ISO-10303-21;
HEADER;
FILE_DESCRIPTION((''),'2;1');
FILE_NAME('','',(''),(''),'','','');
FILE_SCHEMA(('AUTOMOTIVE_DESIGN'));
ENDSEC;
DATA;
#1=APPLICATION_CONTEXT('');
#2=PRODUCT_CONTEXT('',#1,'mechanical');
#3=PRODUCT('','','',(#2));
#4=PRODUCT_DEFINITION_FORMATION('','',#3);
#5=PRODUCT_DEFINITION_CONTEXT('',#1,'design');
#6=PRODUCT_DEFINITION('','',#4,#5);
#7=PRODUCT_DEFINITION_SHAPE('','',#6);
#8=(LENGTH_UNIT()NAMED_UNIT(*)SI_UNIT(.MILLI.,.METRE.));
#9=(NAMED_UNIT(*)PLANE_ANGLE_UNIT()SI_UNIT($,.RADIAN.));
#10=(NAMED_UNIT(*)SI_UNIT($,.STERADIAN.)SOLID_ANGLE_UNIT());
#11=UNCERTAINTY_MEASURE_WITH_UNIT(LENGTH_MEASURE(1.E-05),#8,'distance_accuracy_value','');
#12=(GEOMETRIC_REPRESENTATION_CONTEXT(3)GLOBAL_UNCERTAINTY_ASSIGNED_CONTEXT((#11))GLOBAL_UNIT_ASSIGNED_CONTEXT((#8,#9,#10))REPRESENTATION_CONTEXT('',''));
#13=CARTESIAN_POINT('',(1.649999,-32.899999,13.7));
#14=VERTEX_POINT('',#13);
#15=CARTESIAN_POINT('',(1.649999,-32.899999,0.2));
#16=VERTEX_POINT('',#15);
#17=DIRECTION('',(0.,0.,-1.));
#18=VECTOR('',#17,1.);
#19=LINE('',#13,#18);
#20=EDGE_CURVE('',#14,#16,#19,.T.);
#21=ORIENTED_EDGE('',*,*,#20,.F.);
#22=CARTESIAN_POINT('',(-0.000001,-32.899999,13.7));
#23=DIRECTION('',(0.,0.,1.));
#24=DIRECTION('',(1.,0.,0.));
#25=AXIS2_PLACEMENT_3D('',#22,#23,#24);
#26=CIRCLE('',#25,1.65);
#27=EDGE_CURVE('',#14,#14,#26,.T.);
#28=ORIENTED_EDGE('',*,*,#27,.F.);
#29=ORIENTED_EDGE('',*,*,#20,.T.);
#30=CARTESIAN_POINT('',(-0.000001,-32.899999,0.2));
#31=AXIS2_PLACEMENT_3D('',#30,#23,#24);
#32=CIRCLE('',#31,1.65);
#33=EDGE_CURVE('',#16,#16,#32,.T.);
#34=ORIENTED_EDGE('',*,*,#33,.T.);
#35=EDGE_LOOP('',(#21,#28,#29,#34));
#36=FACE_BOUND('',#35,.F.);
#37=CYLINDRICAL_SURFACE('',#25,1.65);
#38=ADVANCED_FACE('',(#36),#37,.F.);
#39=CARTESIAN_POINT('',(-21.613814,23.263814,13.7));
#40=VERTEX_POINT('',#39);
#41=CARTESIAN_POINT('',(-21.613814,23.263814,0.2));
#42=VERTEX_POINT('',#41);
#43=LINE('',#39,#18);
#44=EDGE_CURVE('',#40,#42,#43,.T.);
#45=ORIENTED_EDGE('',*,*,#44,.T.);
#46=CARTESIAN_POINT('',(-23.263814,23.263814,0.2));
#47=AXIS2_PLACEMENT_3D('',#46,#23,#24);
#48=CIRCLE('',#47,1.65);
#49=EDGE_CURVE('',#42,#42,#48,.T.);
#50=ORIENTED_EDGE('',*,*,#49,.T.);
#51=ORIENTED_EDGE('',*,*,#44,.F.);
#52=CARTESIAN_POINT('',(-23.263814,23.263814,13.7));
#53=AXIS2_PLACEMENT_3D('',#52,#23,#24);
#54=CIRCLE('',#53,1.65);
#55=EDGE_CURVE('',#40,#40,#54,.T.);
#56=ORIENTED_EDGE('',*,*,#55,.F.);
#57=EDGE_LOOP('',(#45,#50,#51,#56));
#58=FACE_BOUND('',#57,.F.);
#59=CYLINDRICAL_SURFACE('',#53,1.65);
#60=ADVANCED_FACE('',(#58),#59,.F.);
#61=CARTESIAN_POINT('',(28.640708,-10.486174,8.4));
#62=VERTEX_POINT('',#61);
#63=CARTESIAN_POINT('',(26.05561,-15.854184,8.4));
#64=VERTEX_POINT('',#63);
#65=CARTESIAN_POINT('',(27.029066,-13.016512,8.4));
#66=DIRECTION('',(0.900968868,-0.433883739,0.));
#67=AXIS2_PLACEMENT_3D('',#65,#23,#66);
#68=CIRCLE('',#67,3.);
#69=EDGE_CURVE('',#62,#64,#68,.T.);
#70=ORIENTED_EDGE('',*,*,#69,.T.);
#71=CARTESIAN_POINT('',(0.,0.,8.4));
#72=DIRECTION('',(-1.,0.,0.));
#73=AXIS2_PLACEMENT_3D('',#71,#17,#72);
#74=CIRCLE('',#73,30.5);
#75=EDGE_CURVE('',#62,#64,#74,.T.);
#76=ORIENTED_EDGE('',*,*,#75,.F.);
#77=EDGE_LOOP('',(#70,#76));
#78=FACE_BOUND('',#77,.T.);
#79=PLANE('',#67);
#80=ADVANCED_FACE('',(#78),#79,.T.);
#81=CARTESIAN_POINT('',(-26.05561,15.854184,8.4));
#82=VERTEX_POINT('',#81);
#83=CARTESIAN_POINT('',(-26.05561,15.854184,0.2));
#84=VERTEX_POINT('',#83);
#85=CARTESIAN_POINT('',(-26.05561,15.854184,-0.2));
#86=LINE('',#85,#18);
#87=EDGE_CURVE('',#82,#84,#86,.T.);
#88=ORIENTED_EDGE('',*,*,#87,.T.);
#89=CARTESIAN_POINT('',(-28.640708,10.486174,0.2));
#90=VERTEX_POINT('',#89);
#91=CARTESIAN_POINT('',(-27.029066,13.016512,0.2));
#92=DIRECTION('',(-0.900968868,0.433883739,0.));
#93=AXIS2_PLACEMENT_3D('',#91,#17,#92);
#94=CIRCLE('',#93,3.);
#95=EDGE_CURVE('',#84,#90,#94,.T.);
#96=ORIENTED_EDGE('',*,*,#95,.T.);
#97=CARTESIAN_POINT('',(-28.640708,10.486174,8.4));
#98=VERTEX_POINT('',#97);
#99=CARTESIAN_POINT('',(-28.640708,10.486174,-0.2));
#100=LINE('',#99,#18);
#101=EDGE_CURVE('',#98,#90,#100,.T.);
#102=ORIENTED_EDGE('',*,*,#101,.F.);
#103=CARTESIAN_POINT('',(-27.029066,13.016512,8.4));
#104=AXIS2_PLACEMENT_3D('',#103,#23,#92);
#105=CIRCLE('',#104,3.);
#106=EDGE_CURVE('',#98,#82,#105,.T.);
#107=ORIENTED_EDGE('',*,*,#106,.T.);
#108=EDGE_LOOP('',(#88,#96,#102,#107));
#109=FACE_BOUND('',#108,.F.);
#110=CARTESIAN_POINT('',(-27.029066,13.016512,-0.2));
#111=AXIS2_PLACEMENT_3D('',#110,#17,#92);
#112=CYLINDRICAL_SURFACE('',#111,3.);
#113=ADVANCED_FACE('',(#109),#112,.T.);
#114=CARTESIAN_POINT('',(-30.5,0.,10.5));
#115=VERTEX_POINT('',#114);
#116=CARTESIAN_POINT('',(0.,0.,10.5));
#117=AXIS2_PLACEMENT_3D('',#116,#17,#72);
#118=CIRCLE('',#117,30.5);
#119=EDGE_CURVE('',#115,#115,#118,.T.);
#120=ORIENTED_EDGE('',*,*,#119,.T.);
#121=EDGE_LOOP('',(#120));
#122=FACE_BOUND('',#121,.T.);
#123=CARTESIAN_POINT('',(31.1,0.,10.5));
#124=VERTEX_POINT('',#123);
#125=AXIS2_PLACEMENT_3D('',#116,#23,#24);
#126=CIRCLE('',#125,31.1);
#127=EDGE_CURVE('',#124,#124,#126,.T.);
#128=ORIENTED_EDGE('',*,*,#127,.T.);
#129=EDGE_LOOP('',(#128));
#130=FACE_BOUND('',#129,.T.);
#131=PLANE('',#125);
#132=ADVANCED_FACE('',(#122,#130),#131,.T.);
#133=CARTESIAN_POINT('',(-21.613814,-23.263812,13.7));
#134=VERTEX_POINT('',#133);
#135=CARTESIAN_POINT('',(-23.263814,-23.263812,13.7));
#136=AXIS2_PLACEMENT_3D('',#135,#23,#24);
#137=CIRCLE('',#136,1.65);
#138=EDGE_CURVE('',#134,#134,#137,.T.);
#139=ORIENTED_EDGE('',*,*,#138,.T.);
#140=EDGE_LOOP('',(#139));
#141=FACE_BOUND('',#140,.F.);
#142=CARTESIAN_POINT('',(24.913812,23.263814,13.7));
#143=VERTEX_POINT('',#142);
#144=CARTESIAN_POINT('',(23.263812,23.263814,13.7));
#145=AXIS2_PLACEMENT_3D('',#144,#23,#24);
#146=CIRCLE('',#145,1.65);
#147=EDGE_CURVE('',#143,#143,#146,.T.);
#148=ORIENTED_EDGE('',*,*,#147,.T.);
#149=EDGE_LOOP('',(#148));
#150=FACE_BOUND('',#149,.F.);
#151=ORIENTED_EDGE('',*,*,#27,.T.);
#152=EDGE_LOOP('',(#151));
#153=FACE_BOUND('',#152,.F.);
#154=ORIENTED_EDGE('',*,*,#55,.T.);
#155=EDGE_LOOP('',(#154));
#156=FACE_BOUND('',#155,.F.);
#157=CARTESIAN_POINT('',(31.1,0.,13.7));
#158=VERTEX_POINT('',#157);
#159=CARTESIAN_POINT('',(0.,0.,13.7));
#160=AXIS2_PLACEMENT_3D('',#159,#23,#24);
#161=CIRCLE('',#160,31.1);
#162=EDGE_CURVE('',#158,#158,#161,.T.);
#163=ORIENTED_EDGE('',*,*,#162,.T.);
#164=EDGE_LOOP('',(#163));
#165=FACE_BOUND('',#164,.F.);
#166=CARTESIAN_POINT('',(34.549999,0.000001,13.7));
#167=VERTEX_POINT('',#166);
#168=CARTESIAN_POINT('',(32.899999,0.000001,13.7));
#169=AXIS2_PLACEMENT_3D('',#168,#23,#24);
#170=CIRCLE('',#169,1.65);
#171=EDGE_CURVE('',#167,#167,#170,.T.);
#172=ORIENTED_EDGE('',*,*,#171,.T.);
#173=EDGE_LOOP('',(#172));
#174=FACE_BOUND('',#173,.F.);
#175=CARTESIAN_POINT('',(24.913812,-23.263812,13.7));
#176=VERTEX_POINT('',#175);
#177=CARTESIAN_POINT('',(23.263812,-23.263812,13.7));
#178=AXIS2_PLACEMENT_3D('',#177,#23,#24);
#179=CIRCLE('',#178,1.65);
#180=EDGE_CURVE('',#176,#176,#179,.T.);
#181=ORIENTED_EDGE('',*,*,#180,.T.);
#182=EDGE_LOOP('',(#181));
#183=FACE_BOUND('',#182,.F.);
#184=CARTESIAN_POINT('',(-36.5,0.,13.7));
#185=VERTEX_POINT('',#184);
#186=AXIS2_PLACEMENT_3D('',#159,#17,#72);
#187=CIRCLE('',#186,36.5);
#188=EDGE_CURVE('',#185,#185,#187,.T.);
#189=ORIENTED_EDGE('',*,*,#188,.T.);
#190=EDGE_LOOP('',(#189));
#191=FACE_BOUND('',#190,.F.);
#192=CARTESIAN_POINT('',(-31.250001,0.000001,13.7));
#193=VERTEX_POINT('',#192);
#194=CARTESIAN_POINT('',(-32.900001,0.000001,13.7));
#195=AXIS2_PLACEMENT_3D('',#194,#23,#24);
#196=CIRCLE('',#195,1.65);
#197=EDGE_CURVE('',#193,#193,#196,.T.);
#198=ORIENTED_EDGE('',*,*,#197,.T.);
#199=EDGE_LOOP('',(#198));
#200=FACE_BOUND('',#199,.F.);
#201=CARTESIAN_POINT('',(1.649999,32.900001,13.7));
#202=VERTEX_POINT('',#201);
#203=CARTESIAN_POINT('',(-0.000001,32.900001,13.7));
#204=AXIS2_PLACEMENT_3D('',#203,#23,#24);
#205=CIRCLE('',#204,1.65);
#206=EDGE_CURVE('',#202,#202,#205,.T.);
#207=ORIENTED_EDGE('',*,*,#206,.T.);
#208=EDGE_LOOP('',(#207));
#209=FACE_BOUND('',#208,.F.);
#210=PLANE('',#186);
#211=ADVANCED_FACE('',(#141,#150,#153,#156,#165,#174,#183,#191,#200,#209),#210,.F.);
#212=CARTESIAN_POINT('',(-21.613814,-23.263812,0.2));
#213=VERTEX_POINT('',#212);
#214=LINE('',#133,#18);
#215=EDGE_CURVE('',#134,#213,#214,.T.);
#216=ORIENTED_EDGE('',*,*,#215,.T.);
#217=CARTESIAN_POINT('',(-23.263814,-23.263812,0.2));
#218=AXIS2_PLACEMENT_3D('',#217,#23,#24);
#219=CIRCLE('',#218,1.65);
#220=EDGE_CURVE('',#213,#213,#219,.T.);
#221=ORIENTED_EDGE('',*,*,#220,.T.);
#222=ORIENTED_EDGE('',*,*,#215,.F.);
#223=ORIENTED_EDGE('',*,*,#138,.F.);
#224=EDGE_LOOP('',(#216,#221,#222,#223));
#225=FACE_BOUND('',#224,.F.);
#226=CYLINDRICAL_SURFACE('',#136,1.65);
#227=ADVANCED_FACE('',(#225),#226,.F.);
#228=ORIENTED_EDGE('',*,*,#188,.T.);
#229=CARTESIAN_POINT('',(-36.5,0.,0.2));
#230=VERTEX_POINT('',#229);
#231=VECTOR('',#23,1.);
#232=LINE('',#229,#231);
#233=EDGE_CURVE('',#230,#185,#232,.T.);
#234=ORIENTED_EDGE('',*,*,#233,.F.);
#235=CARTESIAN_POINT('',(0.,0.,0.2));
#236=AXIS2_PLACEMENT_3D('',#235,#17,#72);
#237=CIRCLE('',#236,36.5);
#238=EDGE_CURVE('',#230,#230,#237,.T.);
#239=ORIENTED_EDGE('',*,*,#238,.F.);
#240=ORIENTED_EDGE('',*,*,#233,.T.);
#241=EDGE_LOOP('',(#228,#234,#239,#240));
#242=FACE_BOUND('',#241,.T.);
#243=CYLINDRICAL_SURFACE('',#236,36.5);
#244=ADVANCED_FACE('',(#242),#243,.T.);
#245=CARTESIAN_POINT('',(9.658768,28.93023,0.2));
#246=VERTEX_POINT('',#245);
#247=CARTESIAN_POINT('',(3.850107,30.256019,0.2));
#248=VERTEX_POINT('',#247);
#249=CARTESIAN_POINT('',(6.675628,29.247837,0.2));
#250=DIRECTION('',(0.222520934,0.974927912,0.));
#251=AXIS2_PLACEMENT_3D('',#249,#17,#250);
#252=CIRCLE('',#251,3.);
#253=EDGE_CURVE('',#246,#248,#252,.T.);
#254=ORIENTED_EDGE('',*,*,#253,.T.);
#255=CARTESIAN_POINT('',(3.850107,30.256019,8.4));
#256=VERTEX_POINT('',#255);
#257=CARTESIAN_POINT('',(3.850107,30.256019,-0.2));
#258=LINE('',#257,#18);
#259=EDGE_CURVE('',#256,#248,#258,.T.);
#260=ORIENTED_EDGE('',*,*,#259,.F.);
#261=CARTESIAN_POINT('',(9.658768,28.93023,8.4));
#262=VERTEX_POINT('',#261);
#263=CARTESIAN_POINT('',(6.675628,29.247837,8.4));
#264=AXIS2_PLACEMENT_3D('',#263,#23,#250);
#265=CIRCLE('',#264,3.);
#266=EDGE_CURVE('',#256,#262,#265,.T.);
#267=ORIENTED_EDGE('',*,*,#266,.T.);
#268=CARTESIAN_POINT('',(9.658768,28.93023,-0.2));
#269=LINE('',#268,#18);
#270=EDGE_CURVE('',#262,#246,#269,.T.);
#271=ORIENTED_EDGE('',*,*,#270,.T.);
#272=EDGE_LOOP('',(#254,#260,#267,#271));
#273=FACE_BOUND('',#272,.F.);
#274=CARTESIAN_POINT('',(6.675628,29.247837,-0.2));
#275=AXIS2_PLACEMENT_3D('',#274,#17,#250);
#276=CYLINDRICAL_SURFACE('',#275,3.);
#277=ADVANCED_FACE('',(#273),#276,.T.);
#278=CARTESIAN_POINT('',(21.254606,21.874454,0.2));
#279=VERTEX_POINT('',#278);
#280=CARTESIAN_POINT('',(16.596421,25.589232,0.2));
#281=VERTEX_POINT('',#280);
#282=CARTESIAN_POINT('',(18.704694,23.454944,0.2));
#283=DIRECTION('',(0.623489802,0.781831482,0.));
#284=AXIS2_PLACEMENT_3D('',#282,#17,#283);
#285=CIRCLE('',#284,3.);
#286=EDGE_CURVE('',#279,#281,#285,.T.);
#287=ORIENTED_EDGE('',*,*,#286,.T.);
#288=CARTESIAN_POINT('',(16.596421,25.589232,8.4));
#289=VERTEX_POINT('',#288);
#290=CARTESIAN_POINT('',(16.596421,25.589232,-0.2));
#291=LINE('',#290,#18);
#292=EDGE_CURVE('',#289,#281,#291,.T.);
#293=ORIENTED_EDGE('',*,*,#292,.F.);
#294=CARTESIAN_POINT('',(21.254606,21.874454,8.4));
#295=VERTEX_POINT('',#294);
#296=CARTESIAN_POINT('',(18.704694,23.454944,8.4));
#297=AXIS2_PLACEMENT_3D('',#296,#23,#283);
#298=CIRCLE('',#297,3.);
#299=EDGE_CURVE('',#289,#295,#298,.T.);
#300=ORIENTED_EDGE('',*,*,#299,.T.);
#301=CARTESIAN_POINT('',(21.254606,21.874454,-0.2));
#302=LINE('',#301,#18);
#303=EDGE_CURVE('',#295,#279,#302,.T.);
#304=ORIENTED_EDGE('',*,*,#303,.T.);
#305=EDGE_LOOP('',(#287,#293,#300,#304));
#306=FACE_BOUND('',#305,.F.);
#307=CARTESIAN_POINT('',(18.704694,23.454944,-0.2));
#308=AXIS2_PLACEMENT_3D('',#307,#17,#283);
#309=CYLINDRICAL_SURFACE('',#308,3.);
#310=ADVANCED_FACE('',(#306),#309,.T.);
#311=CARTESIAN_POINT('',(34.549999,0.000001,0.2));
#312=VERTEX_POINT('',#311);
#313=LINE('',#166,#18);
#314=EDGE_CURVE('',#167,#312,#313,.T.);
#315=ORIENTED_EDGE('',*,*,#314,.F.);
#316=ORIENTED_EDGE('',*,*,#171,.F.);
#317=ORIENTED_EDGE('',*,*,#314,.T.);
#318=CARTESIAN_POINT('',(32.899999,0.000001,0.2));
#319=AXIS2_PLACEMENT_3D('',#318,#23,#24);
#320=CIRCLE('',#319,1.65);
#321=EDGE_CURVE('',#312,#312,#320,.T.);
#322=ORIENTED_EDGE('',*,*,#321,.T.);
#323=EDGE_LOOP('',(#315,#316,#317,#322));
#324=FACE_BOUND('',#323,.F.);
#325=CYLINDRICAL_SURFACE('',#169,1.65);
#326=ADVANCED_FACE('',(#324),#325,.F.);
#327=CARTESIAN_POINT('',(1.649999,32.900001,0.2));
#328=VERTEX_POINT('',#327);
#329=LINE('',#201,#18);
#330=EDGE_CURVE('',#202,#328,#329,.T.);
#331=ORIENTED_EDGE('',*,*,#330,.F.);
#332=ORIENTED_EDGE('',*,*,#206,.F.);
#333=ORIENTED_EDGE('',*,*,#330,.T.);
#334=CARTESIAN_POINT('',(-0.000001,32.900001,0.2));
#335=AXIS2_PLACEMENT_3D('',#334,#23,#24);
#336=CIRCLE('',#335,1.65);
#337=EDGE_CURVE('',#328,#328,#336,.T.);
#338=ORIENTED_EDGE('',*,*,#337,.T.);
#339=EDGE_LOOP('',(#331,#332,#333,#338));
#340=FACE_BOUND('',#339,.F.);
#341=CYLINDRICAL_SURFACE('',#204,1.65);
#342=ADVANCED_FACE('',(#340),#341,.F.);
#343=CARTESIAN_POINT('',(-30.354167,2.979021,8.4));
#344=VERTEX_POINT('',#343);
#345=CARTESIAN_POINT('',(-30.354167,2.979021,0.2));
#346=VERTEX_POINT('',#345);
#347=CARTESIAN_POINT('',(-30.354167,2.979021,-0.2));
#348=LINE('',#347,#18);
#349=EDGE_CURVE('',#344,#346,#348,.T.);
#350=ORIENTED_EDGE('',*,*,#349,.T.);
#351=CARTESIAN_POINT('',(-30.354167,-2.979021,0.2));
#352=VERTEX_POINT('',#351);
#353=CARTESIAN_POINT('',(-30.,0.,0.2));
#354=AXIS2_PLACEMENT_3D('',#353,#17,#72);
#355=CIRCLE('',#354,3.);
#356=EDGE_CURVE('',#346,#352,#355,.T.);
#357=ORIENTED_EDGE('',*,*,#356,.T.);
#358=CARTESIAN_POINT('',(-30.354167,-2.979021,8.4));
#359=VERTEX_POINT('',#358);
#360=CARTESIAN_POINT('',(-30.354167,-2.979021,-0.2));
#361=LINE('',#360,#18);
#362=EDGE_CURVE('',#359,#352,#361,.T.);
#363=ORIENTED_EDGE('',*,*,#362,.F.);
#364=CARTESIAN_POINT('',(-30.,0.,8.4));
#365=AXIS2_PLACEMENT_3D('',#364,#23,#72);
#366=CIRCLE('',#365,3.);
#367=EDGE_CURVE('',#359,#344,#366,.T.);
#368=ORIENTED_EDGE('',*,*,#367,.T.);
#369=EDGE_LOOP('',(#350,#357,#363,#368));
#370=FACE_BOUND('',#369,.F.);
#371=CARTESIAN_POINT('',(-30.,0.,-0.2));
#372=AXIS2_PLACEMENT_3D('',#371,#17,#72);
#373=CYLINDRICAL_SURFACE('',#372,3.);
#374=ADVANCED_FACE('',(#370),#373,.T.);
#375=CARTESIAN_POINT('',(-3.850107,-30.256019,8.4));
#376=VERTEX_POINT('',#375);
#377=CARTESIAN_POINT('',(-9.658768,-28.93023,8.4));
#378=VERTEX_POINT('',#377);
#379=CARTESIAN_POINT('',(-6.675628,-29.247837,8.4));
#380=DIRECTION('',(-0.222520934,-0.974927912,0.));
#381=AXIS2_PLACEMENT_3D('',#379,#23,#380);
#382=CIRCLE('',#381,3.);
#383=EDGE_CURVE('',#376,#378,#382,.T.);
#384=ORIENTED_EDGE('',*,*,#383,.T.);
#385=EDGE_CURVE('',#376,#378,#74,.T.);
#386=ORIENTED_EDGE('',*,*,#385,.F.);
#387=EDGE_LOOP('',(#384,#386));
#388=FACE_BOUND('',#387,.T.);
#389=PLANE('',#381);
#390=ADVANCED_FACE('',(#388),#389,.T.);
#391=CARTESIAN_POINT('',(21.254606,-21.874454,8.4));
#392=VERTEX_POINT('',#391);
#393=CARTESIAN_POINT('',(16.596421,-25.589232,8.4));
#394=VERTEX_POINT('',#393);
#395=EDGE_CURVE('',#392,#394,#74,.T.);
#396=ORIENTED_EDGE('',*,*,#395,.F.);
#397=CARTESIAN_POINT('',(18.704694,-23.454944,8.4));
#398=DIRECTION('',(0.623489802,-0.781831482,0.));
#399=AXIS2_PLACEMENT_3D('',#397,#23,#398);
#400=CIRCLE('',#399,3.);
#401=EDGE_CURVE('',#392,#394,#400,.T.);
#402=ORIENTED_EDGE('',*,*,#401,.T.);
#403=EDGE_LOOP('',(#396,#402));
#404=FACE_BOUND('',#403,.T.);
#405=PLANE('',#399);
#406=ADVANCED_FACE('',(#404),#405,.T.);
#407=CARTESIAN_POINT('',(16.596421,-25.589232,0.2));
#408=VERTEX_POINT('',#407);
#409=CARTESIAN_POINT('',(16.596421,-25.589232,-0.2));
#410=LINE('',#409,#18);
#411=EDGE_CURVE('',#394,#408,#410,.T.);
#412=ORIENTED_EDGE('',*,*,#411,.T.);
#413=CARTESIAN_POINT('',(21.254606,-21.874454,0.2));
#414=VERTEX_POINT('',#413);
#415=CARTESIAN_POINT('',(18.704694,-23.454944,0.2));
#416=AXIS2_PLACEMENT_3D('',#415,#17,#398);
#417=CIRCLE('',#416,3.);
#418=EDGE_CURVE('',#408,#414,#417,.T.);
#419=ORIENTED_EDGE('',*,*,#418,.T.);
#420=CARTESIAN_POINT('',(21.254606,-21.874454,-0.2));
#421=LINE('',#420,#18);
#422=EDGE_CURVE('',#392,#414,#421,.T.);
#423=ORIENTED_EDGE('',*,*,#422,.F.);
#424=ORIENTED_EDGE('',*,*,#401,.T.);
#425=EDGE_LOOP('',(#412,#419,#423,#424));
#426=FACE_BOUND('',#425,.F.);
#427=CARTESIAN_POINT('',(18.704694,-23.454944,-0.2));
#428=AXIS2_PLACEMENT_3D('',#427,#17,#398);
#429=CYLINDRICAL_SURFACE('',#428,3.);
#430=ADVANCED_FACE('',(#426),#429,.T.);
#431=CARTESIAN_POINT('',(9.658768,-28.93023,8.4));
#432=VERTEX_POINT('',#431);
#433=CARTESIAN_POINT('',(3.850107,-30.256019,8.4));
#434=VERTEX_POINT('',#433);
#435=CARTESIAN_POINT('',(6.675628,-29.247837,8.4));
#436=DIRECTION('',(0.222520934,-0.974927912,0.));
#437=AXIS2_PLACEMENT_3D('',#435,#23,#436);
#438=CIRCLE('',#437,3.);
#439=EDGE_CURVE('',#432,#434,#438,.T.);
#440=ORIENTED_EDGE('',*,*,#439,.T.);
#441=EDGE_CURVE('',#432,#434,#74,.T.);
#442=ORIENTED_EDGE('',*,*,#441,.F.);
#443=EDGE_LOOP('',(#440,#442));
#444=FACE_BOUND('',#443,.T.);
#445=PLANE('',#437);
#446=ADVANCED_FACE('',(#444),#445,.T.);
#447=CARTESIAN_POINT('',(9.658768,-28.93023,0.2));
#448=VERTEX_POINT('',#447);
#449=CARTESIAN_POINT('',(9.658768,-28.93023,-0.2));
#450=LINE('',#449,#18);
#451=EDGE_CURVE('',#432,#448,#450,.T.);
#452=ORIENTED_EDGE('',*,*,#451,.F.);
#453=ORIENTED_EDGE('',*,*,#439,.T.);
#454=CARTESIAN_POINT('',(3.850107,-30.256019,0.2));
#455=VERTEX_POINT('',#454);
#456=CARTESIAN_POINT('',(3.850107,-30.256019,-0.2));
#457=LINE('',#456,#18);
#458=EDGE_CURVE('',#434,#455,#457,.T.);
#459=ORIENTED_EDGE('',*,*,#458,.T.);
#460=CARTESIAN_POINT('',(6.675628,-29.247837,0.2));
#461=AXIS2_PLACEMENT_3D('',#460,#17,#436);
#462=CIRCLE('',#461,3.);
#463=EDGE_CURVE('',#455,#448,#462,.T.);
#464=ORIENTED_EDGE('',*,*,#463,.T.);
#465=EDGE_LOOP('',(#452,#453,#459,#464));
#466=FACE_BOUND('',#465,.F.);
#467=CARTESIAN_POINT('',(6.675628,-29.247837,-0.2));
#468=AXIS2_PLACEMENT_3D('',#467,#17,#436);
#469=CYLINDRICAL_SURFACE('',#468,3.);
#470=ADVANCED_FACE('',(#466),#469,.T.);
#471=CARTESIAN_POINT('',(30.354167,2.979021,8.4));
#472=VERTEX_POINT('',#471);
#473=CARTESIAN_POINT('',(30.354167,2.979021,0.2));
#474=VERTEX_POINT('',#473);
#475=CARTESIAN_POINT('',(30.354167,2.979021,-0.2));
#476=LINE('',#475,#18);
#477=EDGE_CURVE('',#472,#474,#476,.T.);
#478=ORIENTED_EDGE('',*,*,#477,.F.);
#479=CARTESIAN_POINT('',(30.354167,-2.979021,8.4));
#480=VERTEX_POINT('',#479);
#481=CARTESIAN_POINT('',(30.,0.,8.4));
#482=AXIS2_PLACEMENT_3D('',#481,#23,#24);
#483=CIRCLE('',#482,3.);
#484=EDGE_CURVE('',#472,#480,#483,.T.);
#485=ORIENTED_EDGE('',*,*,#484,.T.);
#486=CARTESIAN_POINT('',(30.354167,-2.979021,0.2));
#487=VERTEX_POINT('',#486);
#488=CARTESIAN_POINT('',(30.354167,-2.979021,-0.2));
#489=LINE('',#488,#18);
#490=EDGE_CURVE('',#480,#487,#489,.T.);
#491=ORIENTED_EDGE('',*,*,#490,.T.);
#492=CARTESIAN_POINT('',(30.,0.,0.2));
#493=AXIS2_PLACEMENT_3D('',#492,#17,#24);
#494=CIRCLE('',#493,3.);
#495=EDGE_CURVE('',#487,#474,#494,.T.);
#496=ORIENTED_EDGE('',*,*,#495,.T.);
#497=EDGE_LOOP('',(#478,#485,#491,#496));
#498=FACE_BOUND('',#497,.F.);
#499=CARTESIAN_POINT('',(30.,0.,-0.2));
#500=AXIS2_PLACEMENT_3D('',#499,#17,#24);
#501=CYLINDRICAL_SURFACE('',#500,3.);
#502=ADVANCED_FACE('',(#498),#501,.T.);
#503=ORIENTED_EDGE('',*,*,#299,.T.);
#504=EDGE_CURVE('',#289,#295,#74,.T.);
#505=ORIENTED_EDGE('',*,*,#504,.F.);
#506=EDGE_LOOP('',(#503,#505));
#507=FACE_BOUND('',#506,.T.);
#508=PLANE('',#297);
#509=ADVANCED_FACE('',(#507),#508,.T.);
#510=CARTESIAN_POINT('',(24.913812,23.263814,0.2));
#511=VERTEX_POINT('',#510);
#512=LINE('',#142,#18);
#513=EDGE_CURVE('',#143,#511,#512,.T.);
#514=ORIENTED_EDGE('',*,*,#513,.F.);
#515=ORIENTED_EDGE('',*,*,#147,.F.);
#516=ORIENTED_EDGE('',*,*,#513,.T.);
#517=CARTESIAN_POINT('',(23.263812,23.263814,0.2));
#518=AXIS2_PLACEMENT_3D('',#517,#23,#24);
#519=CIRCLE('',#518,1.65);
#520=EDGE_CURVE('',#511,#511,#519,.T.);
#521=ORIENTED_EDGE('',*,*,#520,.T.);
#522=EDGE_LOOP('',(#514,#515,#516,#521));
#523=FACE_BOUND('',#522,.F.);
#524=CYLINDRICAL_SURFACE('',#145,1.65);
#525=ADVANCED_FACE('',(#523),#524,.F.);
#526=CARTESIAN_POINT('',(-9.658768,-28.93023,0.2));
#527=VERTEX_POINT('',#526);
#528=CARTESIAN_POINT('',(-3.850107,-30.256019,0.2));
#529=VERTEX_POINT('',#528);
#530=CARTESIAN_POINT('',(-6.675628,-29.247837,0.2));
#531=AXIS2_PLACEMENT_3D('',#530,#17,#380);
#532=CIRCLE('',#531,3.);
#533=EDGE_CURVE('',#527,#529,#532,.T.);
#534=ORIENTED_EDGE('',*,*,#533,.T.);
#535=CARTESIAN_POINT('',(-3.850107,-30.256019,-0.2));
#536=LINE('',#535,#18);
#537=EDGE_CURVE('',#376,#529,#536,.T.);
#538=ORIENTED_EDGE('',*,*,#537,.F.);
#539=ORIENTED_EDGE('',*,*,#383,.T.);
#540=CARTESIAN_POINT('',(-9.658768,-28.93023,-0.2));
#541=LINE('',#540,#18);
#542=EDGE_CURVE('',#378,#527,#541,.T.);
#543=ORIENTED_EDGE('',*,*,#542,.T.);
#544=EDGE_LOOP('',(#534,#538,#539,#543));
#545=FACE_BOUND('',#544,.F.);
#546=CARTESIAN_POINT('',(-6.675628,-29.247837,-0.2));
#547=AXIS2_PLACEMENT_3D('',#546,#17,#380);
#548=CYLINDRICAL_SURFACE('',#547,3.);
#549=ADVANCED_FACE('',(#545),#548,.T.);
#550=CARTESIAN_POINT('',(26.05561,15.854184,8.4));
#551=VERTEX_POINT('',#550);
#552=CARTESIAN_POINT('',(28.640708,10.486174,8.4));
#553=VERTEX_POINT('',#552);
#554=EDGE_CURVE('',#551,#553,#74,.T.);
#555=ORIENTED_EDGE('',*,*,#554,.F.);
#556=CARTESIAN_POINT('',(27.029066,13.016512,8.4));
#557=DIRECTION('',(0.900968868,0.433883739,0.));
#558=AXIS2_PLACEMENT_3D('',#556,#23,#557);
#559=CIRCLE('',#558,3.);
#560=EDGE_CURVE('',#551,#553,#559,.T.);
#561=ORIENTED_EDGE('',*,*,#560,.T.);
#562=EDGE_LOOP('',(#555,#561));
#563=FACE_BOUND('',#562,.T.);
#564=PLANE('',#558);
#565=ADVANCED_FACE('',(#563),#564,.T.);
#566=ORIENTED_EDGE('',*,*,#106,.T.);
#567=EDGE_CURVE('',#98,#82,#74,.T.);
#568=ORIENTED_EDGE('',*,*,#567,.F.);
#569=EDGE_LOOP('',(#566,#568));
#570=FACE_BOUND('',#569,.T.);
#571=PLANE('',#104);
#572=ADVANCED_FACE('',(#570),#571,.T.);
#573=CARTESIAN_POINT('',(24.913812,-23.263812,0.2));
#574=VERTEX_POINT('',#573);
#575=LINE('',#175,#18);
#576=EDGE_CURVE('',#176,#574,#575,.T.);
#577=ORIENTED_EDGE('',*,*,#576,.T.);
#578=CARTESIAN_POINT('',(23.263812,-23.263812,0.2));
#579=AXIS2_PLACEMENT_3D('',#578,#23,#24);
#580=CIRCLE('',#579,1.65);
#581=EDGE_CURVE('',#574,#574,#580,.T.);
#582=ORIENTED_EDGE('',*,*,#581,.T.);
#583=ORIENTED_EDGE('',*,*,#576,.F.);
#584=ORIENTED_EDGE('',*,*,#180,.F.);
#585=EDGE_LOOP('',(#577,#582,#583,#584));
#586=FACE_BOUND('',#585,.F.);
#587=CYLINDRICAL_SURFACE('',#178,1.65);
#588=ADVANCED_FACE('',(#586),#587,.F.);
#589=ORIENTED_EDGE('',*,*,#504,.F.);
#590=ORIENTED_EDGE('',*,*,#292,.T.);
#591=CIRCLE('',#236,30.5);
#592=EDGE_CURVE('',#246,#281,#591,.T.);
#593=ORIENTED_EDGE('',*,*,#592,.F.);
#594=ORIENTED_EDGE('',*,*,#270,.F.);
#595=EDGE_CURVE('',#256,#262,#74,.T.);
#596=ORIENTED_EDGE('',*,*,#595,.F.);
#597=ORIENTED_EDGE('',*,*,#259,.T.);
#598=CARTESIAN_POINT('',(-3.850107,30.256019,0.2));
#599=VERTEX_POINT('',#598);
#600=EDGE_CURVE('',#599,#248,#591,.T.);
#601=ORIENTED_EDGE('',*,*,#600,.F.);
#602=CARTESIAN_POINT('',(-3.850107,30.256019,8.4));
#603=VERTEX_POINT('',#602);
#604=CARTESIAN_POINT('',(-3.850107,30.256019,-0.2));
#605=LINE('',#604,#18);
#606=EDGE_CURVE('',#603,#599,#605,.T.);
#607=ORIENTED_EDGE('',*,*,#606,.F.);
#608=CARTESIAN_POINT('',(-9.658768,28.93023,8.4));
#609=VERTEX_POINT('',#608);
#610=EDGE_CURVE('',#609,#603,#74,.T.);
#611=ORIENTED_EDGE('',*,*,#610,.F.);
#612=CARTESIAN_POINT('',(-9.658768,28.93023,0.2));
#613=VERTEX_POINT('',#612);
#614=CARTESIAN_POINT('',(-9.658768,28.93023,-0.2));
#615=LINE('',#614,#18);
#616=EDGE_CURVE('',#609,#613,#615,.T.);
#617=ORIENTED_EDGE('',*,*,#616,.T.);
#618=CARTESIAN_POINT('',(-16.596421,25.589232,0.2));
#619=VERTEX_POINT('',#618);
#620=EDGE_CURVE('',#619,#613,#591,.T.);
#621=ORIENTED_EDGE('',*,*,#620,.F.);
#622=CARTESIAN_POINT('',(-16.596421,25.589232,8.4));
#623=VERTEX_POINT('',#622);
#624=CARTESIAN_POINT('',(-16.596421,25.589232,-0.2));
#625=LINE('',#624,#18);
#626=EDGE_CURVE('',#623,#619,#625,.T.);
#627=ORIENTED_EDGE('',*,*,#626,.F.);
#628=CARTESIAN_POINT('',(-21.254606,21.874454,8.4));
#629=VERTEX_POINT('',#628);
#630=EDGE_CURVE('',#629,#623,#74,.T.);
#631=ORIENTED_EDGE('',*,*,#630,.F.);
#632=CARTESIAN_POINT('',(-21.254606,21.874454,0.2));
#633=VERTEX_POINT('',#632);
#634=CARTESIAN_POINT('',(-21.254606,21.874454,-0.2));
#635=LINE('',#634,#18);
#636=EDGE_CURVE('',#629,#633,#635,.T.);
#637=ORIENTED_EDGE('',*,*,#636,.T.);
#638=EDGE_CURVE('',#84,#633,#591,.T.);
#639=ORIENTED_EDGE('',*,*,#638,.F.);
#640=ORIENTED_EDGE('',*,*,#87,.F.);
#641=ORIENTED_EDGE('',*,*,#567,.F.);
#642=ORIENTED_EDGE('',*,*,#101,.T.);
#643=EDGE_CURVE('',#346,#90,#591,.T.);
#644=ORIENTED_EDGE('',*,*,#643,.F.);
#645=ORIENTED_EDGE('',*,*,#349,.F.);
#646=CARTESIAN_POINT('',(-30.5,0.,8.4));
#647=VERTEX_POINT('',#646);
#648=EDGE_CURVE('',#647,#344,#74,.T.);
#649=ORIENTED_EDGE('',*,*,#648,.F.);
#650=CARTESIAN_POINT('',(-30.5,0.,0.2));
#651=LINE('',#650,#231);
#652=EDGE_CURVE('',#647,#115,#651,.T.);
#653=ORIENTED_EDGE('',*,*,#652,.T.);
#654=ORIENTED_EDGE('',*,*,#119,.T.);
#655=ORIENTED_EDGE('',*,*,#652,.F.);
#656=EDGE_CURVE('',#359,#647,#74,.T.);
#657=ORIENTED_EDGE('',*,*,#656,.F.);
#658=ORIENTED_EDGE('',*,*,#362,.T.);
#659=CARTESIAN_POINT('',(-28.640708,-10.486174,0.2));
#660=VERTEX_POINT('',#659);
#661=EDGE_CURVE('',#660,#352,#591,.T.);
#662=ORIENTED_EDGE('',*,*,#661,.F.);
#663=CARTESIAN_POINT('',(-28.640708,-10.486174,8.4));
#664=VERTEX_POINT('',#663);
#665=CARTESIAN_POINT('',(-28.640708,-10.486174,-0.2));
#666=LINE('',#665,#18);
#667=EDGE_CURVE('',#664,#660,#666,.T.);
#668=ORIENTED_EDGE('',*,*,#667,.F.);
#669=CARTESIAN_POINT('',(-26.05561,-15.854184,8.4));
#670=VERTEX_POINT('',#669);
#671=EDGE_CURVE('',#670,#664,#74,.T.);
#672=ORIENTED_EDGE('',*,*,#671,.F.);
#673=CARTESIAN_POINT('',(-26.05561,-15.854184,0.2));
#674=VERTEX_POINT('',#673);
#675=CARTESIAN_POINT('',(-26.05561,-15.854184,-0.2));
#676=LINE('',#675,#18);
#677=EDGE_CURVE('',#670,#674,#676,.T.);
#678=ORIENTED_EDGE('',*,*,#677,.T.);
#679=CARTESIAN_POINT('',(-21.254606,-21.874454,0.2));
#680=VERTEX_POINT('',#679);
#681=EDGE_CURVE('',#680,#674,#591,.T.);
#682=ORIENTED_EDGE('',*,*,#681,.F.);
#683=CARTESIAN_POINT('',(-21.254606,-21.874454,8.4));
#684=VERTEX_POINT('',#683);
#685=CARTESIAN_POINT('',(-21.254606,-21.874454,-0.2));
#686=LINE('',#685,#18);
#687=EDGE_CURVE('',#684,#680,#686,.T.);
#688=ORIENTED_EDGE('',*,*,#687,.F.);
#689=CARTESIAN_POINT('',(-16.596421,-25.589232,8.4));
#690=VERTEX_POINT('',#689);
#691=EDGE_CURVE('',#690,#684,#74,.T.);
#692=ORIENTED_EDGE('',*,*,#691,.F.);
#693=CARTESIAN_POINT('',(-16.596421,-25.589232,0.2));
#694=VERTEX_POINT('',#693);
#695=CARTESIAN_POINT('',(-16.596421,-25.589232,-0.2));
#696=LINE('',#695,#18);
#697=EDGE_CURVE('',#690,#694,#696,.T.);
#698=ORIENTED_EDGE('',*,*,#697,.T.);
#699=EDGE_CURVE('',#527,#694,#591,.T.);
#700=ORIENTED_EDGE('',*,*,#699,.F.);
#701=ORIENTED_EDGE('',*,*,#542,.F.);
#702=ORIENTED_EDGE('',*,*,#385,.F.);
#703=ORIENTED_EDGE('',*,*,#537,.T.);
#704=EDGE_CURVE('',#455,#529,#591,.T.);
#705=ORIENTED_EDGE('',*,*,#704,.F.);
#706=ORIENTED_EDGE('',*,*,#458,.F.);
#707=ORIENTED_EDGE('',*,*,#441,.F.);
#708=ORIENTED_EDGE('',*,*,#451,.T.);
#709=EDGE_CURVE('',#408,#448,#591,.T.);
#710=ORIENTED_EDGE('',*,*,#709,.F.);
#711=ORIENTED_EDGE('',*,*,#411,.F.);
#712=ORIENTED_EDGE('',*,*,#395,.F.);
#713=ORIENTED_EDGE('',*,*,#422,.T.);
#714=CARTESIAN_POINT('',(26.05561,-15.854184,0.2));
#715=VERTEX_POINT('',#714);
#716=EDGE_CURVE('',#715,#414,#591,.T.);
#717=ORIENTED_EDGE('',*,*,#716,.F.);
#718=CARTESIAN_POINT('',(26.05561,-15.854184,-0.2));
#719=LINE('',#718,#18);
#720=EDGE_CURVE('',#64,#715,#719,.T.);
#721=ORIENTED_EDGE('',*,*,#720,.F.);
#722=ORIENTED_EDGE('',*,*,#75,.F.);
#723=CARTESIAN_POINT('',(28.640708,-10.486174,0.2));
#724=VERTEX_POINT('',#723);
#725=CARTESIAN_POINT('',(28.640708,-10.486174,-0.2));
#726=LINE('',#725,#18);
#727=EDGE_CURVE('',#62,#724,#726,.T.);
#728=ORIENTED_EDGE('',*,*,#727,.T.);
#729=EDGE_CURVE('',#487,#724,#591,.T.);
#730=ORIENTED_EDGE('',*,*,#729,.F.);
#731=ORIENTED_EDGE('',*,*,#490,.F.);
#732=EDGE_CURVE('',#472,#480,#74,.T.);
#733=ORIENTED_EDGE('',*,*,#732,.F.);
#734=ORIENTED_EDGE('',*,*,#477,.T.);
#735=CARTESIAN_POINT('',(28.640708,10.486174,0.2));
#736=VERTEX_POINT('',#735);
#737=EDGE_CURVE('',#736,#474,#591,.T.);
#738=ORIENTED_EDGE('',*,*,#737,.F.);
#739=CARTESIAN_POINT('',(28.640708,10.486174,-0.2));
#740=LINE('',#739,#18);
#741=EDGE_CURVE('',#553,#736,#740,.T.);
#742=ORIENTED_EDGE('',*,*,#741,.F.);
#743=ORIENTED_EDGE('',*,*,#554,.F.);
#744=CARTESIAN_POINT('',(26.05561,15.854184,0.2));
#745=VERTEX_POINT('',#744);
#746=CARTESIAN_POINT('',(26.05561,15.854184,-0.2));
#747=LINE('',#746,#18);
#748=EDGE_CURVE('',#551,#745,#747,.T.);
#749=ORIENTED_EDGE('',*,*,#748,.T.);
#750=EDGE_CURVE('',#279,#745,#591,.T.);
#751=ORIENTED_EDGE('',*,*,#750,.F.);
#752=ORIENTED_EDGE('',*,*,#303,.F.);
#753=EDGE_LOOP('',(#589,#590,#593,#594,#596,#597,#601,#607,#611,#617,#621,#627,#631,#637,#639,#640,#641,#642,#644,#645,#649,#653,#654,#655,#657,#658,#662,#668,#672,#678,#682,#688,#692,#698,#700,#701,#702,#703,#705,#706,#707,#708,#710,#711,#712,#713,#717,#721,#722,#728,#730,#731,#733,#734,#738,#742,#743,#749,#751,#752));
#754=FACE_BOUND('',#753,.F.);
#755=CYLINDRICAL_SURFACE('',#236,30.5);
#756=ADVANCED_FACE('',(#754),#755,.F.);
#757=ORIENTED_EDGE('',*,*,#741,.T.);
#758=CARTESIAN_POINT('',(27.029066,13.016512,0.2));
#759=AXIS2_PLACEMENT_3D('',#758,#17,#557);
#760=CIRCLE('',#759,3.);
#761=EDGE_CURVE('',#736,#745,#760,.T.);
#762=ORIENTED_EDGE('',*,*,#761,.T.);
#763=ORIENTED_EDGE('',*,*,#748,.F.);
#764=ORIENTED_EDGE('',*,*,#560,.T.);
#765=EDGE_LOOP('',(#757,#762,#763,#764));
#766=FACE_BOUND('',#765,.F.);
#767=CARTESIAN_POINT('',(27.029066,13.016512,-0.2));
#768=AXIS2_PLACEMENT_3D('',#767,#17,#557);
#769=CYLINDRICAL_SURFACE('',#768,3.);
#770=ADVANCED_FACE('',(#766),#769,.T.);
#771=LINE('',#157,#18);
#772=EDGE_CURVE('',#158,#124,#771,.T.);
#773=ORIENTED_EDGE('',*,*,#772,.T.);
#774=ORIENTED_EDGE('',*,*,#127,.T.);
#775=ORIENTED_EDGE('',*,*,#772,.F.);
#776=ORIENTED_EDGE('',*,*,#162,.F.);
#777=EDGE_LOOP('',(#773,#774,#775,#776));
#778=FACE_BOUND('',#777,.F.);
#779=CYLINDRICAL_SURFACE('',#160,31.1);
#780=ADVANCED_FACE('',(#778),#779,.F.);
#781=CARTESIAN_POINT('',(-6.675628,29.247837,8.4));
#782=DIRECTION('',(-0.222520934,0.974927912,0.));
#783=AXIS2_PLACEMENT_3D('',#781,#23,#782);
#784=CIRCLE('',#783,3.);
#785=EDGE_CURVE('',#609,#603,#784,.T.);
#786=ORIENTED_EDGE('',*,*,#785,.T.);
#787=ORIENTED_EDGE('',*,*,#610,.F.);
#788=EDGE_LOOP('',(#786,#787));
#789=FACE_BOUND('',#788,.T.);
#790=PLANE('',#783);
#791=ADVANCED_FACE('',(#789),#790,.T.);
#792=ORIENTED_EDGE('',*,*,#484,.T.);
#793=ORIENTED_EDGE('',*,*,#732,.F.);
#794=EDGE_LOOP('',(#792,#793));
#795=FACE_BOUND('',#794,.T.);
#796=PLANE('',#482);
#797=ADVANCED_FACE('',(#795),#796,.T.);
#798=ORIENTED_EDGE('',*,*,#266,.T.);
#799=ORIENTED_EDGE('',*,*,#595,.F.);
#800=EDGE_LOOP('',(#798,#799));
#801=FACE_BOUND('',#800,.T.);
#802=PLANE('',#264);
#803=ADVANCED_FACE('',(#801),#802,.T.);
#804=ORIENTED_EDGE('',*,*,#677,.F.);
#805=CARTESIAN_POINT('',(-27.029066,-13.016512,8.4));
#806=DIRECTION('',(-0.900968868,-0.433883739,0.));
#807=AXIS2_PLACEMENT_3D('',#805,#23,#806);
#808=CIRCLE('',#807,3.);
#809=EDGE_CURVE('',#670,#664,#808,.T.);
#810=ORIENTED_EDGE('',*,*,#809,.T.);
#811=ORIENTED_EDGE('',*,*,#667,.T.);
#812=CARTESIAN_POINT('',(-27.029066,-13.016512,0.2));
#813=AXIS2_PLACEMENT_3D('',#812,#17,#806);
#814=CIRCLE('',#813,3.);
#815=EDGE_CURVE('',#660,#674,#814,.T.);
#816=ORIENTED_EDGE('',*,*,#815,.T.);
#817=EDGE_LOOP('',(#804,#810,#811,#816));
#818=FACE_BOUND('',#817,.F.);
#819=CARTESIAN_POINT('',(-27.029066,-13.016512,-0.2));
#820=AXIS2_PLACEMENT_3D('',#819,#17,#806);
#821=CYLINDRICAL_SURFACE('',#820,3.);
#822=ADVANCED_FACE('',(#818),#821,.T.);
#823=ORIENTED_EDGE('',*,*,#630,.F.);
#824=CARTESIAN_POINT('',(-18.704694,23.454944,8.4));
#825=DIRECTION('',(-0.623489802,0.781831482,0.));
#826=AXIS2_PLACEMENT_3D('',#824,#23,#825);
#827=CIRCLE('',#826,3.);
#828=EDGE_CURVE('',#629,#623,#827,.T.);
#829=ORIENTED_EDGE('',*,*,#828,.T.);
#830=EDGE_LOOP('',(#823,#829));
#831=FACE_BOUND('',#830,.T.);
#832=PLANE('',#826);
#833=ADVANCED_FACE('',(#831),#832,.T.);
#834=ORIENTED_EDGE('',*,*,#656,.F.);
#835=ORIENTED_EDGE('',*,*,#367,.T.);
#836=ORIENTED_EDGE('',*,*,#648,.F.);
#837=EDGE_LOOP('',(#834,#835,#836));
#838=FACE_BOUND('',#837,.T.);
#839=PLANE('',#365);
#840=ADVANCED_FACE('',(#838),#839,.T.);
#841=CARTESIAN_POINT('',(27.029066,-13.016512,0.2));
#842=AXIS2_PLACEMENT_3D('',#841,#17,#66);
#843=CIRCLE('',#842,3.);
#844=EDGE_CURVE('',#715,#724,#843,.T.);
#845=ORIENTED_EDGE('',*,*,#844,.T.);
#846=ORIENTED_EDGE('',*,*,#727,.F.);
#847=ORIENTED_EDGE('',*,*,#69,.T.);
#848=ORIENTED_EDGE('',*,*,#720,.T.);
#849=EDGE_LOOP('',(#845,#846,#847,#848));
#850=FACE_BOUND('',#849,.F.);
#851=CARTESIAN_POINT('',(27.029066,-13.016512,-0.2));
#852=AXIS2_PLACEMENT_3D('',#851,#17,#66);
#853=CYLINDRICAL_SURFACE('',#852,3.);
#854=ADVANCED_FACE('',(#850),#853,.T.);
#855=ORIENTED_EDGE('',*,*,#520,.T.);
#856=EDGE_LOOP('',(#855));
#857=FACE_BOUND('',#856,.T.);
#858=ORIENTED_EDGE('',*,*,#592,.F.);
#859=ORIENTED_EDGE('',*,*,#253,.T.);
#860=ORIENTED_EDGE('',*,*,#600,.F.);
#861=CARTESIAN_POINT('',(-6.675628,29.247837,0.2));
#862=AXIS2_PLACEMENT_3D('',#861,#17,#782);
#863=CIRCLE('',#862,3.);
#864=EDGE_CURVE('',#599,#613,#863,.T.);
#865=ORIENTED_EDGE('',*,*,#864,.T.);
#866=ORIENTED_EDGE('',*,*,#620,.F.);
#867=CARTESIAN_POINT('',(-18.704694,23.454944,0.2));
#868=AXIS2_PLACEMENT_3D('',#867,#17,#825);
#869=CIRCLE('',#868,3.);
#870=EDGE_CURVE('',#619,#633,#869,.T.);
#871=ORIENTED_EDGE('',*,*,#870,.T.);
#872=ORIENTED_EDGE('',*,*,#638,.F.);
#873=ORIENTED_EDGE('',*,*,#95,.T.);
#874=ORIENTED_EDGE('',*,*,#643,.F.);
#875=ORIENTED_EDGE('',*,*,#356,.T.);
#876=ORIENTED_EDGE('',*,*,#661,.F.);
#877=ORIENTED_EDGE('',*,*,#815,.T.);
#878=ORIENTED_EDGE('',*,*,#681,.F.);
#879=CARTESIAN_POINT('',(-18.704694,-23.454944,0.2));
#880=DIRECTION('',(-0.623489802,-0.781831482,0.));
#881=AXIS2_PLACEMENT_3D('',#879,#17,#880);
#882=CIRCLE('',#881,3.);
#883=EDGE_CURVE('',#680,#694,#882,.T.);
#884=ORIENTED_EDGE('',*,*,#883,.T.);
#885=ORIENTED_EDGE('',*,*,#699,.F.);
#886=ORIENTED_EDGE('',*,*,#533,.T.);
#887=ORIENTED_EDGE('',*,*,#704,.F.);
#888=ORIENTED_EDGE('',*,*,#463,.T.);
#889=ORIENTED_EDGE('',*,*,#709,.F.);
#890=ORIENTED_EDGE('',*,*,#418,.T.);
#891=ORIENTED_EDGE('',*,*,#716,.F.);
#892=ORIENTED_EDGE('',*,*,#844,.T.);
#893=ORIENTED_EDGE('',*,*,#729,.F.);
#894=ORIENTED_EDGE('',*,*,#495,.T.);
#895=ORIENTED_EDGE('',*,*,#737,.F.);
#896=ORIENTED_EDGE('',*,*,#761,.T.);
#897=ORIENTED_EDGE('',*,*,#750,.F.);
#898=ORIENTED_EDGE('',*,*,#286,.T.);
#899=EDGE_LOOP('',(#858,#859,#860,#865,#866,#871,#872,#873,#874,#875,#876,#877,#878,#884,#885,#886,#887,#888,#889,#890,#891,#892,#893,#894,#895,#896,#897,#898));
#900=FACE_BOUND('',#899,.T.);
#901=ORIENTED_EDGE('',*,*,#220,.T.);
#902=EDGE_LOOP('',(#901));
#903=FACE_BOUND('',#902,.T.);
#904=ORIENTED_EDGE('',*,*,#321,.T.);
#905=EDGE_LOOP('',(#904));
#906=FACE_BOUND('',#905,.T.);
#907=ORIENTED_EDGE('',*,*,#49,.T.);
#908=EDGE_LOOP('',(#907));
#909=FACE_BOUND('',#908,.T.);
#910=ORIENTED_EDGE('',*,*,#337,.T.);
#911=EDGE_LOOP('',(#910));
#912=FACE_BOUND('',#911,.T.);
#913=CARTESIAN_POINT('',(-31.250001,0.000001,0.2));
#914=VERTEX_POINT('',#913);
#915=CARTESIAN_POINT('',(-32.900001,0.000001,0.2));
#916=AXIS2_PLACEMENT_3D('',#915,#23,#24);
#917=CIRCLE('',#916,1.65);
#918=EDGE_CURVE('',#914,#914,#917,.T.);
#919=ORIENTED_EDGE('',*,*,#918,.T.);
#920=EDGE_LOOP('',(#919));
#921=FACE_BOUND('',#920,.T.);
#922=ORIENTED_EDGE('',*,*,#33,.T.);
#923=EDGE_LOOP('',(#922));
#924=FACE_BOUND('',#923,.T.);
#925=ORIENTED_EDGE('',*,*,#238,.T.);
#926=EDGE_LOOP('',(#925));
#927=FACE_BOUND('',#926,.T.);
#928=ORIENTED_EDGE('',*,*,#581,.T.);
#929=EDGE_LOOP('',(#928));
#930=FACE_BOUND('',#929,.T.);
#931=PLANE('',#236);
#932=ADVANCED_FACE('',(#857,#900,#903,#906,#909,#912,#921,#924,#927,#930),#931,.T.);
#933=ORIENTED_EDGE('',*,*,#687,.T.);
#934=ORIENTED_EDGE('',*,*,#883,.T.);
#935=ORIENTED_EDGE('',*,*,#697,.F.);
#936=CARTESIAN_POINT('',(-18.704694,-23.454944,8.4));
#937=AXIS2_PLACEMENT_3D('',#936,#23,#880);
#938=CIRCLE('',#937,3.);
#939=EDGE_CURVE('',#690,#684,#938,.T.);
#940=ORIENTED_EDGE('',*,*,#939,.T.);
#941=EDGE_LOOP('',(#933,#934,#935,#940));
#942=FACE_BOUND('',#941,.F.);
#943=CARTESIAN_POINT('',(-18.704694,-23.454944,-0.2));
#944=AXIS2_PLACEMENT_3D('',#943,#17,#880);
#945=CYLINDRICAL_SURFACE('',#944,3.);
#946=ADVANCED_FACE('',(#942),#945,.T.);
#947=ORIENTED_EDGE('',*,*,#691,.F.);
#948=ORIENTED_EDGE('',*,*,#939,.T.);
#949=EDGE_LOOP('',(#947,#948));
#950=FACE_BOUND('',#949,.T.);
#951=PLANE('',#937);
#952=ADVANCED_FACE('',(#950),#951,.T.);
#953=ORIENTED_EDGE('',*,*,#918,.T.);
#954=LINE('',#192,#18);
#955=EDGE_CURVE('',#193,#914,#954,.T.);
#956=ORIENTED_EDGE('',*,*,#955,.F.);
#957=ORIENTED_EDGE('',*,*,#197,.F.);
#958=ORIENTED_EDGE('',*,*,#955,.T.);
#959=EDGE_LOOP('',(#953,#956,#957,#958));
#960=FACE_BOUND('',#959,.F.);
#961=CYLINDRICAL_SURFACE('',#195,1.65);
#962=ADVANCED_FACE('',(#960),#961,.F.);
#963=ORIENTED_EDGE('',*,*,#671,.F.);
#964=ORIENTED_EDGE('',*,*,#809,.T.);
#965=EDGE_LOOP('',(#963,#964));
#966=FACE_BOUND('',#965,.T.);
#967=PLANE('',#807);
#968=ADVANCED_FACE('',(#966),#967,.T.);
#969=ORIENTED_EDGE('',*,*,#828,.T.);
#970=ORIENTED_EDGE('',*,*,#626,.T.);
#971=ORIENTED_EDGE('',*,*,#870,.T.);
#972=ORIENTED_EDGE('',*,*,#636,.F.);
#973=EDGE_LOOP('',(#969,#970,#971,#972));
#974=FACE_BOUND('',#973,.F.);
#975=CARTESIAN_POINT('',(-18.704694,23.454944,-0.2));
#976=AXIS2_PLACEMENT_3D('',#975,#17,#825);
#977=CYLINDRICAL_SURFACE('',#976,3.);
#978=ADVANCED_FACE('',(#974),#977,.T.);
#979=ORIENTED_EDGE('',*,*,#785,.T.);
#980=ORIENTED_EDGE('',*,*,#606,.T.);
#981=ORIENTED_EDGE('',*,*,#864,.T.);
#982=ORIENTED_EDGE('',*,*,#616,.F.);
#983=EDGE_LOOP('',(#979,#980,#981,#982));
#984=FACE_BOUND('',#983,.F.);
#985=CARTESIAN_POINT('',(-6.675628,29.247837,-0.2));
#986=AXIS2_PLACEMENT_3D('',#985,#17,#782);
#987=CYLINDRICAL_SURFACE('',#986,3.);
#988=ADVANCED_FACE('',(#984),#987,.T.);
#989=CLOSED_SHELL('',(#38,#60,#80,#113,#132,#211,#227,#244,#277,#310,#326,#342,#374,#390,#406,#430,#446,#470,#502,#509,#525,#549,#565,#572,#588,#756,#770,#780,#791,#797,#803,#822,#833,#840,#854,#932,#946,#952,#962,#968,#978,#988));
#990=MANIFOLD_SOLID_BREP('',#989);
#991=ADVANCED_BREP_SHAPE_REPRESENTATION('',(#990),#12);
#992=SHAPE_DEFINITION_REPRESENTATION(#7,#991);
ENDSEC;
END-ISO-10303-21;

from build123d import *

# Parameters (mm, degrees)
PINSBASEEXTRUDE_DEPTH      = 0.2
PINSBASEEXTRUDE_DEPTH_BACK = 0.2
PINSBASESKETCH_R           = 33
PINSEXTRUDE_START          = -0.2
PINSSKETCH_R               = 3
PINSEXTRUDE_DEPTH          = 8.6
PINSPATTERN_COUNT          = 14
BOREREVOLVESKETCH_W        = 4
BOREREVOLVESKETCH_H        = 7.5
SKETCH_4_R                 = 33
CUT_EXTRUDE_1_DEPTH        = 0.4
SKETCH_5_R                 = 36.5
SKETCH_5_R_2               = 30.5
EXTRUDE_3_DEPTH            = 13.5
CUT_EXTRUDE_2_REACH        = 55.355
SKETCH_6_R                 = 1.65
SKETCH_8_R                 = 31.1
CUT_EXTRUDE_3_DEPTH        = 3.2


with BuildPart() as part:
    # PinsBaseSketch → PinsBaseExtrude (new, two sides: drawn at the far end of the back side and taken through both)
    with BuildSketch(Plane.XY.offset(-PINSBASEEXTRUDE_DEPTH_BACK)):
        Circle(PINSBASESKETCH_R)
    extrude(amount=PINSBASEEXTRUDE_DEPTH + PINSBASEEXTRUDE_DEPTH_BACK)

    # PinsSketch → PinsExtrude (add)
    with BuildSketch(Plane.XY.offset(PINSEXTRUDE_START)):
        with Locations((30, 0)):
            Circle(PINSSKETCH_R)
    pinsextrude = extrude(amount=PINSEXTRUDE_DEPTH)

    # PinsPattern: PinsExtrude ×14 about axis
    pinspattern_axis = Axis((0, 0, 55), (0, 0, -1))
    for i in range(1, PINSPATTERN_COUNT):
        add(pinsextrude.rotate(pinspattern_axis, i * 360 / PINSPATTERN_COUNT))

    # BoreRevolveSketch → BoreRevolveCut (revolve, cut)
    with BuildSketch(Plane(origin=(0, 0, 0), x_dir=(0, 0, -1), z_dir=(1, 0, 0))):
        with Locations((0, 3.75)):
            Rectangle(BOREREVOLVESKETCH_W, BOREREVOLVESKETCH_H)
    revolve(axis=Axis((0, 0, 0), (0, 0, -1)), mode=Mode.SUBTRACT)

    # 草图4 → 切除-拉伸1 (cut)
    with BuildSketch(Plane(origin=(0, 0, -0.2), x_dir=(-1, 0, 0), z_dir=(0, 0, -1))):
        Circle(SKETCH_4_R)
    extrude(amount=-CUT_EXTRUDE_1_DEPTH, mode=Mode.SUBTRACT)


with BuildPart() as cut_extrude_1_piece_1:
    # of the separate pieces the step leaves, piece 1, a body of its own (cut_extrude_1_pieces)
    add(part.part.solids().sort_by_distance((7.343190821, 32.172621102, 0.2))[0])



with BuildPart() as cut_extrude_1_piece_2:
    # of the separate pieces the step leaves, piece 2, a body of its own (cut_extrude_1_pieces)
    add(part.part.solids().sort_by_distance((20.575163461, -25.800438921, 0.2))[0])


with BuildPart() as cut_extrude_1_piece_3:
    # of the separate pieces the step leaves, piece 3, a body of its own (cut_extrude_1_pieces)
    add(part.part.solids().sort_by_distance((-7.343190821, 32.172621102, 0.2))[0])


with BuildPart() as cut_extrude_1_piece_4:
    # of the separate pieces the step leaves, piece 4, a body of its own (cut_extrude_1_pieces)
    add(part.part.solids().sort_by_distance((20.575163461, 25.800438921, 0.2))[0])


with BuildPart() as cut_extrude_1_piece_5:
    # of the separate pieces the step leaves, piece 5, a body of its own (cut_extrude_1_pieces)
    add(part.part.solids().sort_by_distance((29.731972641, 14.318163391, 0.2))[0])


with BuildPart() as cut_extrude_1_piece_6:
    # of the separate pieces the step leaves, piece 6, a body of its own (cut_extrude_1_pieces)
    add(part.part.solids().sort_by_distance((-7.343190821, -32.172621102, 0.2))[0])


with BuildPart() as cut_extrude_1_piece_7:
    # of the separate pieces the step leaves, piece 7, a body of its own (cut_extrude_1_pieces)
    add(part.part.solids().sort_by_distance((7.343190821, -32.172621102, 0.2))[0])


with BuildPart() as cut_extrude_1_piece_8:
    # of the separate pieces the step leaves, piece 8, a body of its own (cut_extrude_1_pieces)
    add(part.part.solids().sort_by_distance((29.731972641, -14.318163391, 0.2))[0])


with BuildPart() as cut_extrude_1_piece_9:
    # of the separate pieces the step leaves, piece 9, a body of its own (cut_extrude_1_pieces)
    add(part.part.solids().sort_by_distance((-29.731972641, -14.318163391, 0.2))[0])


with BuildPart() as cut_extrude_1_piece_10:
    # of the separate pieces the step leaves, piece 10, a body of its own (cut_extrude_1_pieces)
    add(part.part.solids().sort_by_distance((33, 0, 0.2))[0])


with BuildPart() as cut_extrude_1_piece_11:
    # of the separate pieces the step leaves, piece 11, a body of its own (cut_extrude_1_pieces)
    add(part.part.solids().sort_by_distance((-20.575163461, 25.800438921, 0.2))[0])


with BuildPart() as cut_extrude_1_piece_12:
    # of the separate pieces the step leaves, piece 12, a body of its own (cut_extrude_1_pieces)
    add(part.part.solids().sort_by_distance((-20.575163461, -25.800438921, 0.2))[0])


with BuildPart() as cut_extrude_1_piece_13:
    # of the separate pieces the step leaves, piece 13, a body of its own (cut_extrude_1_pieces)
    add(part.part.solids().sort_by_distance((-33, 0, 0.2))[0])


with BuildPart() as cut_extrude_1_piece_14:
    # of the separate pieces the step leaves, piece 14, a body of its own (cut_extrude_1_pieces)
    add(part.part.solids().sort_by_distance((-29.731972641, 14.318163391, 0.2))[0])


with BuildPart() as cut_extrude_1_piece_1_1:
    add(cut_extrude_1_piece_1.part)

    add(cut_extrude_1_piece_2.part)  # 凸台-拉伸3 merges 切除-拉伸1 piece 2

    add(cut_extrude_1_piece_3.part)  # 凸台-拉伸3 merges 切除-拉伸1 piece 3

    add(cut_extrude_1_piece_4.part)  # 凸台-拉伸3 merges 切除-拉伸1 piece 4

    add(cut_extrude_1_piece_5.part)  # 凸台-拉伸3 merges 切除-拉伸1 piece 5

    add(cut_extrude_1_piece_6.part)  # 凸台-拉伸3 merges 切除-拉伸1 piece 6

    add(cut_extrude_1_piece_7.part)  # 凸台-拉伸3 merges 切除-拉伸1 piece 7

    add(cut_extrude_1_piece_8.part)  # 凸台-拉伸3 merges 切除-拉伸1 piece 8

    add(cut_extrude_1_piece_9.part)  # 凸台-拉伸3 merges 切除-拉伸1 piece 9

    add(cut_extrude_1_piece_10.part)  # 凸台-拉伸3 merges 切除-拉伸1 piece 10

    add(cut_extrude_1_piece_11.part)  # 凸台-拉伸3 merges 切除-拉伸1 piece 11

    add(cut_extrude_1_piece_12.part)  # 凸台-拉伸3 merges 切除-拉伸1 piece 12

    add(cut_extrude_1_piece_13.part)  # 凸台-拉伸3 merges 切除-拉伸1 piece 13

    add(cut_extrude_1_piece_14.part)  # 凸台-拉伸3 merges 切除-拉伸1 piece 14
    # 草图5 → 凸台-拉伸3 (add)
    with BuildSketch(Plane(origin=(0, 0, 0.2), x_dir=(-1, 0, 0), z_dir=(0, 0, -1))):
        Circle(SKETCH_5_R)
        Circle(SKETCH_5_R_2, mode=Mode.SUBTRACT)
    extrude(amount=-EXTRUDE_3_DEPTH)

    # 草图6 → 切除-拉伸2 (cut, up to next)
    with BuildSketch(Plane.XY.offset(13.7), mode=Mode.PRIVATE) as cut_extrude_2_sk1:
        with Locations((32.899998742, 1.194e-06)):
            Circle(SKETCH_6_R)
    cut_extrude_2_tool1 = extrude(cut_extrude_2_sk1.sketch, amount=-CUT_EXTRUDE_2_REACH, mode=Mode.PRIVATE) & cut_extrude_1_piece_1_1.part
    # 草图6 → 切除-拉伸2 (cut, up to next)
    with BuildSketch(Plane.XY.offset(13.7), mode=Mode.PRIVATE) as cut_extrude_2_sk2:
        with Locations((23.263811843, -23.263811907)):
            Circle(SKETCH_6_R)
    cut_extrude_2_tool2 = extrude(cut_extrude_2_sk2.sketch, amount=-CUT_EXTRUDE_2_REACH, mode=Mode.PRIVATE) & cut_extrude_1_piece_1_1.part
    # 草图6 → 切除-拉伸2 (cut, up to next)
    with BuildSketch(Plane.XY.offset(13.7), mode=Mode.PRIVATE) as cut_extrude_2_sk3:
        with Locations((-1.258e-06, -32.899998806)):
            Circle(SKETCH_6_R)
    cut_extrude_2_tool3 = extrude(cut_extrude_2_sk3.sketch, amount=-CUT_EXTRUDE_2_REACH, mode=Mode.PRIVATE) & cut_extrude_1_piece_1_1.part
    # 草图6 → 切除-拉伸2 (cut, up to next)
    with BuildSketch(Plane.XY.offset(13.7), mode=Mode.PRIVATE) as cut_extrude_2_sk4:
        with Locations((-23.263814359, -23.263811907)):
            Circle(SKETCH_6_R)
    cut_extrude_2_tool4 = extrude(cut_extrude_2_sk4.sketch, amount=-CUT_EXTRUDE_2_REACH, mode=Mode.PRIVATE) & cut_extrude_1_piece_1_1.part
    # 草图6 → 切除-拉伸2 (cut, up to next)
    with BuildSketch(Plane.XY.offset(13.7), mode=Mode.PRIVATE) as cut_extrude_2_sk5:
        with Locations((-32.900001258, 1.194e-06)):
            Circle(SKETCH_6_R)
    cut_extrude_2_tool5 = extrude(cut_extrude_2_sk5.sketch, amount=-CUT_EXTRUDE_2_REACH, mode=Mode.PRIVATE) & cut_extrude_1_piece_1_1.part
    # 草图6 → 切除-拉伸2 (cut, up to next)
    with BuildSketch(Plane.XY.offset(13.7), mode=Mode.PRIVATE) as cut_extrude_2_sk6:
        with Locations((-23.263814359, 23.263814295)):
            Circle(SKETCH_6_R)
    cut_extrude_2_tool6 = extrude(cut_extrude_2_sk6.sketch, amount=-CUT_EXTRUDE_2_REACH, mode=Mode.PRIVATE) & cut_extrude_1_piece_1_1.part
    # 草图6 → 切除-拉伸2 (cut, up to next)
    with BuildSketch(Plane.XY.offset(13.7), mode=Mode.PRIVATE) as cut_extrude_2_sk7:
        with Locations((-1.258e-06, 32.900001194)):
            Circle(SKETCH_6_R)
    cut_extrude_2_tool7 = extrude(cut_extrude_2_sk7.sketch, amount=-CUT_EXTRUDE_2_REACH, mode=Mode.PRIVATE) & cut_extrude_1_piece_1_1.part
    # 草图6 → 切除-拉伸2 (cut, up to next)
    with BuildSketch(Plane.XY.offset(13.7), mode=Mode.PRIVATE) as cut_extrude_2_sk8:
        with Locations((23.263811843, 23.263814295)):
            Circle(SKETCH_6_R)
    cut_extrude_2_tool8 = extrude(cut_extrude_2_sk8.sketch, amount=-CUT_EXTRUDE_2_REACH, mode=Mode.PRIVATE) & cut_extrude_1_piece_1_1.part
    add(cut_extrude_2_tool1.solids().sort_by_distance((32.899999, 1e-06, 13.7))[0], mode=Mode.SUBTRACT)
    add(cut_extrude_2_tool2.solids().sort_by_distance((23.263812, -23.263812, 13.7))[0], mode=Mode.SUBTRACT)
    add(cut_extrude_2_tool3.solids().sort_by_distance((-1e-06, -32.899999, 13.7))[0], mode=Mode.SUBTRACT)
    add(cut_extrude_2_tool4.solids().sort_by_distance((-23.263814, -23.263812, 13.7))[0], mode=Mode.SUBTRACT)
    add(cut_extrude_2_tool5.solids().sort_by_distance((-32.900001, 1e-06, 13.7))[0], mode=Mode.SUBTRACT)
    add(cut_extrude_2_tool6.solids().sort_by_distance((-23.263814, 23.263814, 13.7))[0], mode=Mode.SUBTRACT)
    add(cut_extrude_2_tool7.solids().sort_by_distance((-1e-06, 32.900001, 13.7))[0], mode=Mode.SUBTRACT)
    add(cut_extrude_2_tool8.solids().sort_by_distance((23.263812, 23.263814, 13.7))[0], mode=Mode.SUBTRACT)

    # 草图8 → 切除-拉伸3 (cut)
    with BuildSketch(Plane.XY.offset(13.7)):
        with Locations((-1.258e-06, 1.194e-06)):
            Circle(SKETCH_8_R)
    extrude(amount=-CUT_EXTRUDE_3_DEPTH, mode=Mode.SUBTRACT)


solid = cut_extrude_1_piece_1_1.part
